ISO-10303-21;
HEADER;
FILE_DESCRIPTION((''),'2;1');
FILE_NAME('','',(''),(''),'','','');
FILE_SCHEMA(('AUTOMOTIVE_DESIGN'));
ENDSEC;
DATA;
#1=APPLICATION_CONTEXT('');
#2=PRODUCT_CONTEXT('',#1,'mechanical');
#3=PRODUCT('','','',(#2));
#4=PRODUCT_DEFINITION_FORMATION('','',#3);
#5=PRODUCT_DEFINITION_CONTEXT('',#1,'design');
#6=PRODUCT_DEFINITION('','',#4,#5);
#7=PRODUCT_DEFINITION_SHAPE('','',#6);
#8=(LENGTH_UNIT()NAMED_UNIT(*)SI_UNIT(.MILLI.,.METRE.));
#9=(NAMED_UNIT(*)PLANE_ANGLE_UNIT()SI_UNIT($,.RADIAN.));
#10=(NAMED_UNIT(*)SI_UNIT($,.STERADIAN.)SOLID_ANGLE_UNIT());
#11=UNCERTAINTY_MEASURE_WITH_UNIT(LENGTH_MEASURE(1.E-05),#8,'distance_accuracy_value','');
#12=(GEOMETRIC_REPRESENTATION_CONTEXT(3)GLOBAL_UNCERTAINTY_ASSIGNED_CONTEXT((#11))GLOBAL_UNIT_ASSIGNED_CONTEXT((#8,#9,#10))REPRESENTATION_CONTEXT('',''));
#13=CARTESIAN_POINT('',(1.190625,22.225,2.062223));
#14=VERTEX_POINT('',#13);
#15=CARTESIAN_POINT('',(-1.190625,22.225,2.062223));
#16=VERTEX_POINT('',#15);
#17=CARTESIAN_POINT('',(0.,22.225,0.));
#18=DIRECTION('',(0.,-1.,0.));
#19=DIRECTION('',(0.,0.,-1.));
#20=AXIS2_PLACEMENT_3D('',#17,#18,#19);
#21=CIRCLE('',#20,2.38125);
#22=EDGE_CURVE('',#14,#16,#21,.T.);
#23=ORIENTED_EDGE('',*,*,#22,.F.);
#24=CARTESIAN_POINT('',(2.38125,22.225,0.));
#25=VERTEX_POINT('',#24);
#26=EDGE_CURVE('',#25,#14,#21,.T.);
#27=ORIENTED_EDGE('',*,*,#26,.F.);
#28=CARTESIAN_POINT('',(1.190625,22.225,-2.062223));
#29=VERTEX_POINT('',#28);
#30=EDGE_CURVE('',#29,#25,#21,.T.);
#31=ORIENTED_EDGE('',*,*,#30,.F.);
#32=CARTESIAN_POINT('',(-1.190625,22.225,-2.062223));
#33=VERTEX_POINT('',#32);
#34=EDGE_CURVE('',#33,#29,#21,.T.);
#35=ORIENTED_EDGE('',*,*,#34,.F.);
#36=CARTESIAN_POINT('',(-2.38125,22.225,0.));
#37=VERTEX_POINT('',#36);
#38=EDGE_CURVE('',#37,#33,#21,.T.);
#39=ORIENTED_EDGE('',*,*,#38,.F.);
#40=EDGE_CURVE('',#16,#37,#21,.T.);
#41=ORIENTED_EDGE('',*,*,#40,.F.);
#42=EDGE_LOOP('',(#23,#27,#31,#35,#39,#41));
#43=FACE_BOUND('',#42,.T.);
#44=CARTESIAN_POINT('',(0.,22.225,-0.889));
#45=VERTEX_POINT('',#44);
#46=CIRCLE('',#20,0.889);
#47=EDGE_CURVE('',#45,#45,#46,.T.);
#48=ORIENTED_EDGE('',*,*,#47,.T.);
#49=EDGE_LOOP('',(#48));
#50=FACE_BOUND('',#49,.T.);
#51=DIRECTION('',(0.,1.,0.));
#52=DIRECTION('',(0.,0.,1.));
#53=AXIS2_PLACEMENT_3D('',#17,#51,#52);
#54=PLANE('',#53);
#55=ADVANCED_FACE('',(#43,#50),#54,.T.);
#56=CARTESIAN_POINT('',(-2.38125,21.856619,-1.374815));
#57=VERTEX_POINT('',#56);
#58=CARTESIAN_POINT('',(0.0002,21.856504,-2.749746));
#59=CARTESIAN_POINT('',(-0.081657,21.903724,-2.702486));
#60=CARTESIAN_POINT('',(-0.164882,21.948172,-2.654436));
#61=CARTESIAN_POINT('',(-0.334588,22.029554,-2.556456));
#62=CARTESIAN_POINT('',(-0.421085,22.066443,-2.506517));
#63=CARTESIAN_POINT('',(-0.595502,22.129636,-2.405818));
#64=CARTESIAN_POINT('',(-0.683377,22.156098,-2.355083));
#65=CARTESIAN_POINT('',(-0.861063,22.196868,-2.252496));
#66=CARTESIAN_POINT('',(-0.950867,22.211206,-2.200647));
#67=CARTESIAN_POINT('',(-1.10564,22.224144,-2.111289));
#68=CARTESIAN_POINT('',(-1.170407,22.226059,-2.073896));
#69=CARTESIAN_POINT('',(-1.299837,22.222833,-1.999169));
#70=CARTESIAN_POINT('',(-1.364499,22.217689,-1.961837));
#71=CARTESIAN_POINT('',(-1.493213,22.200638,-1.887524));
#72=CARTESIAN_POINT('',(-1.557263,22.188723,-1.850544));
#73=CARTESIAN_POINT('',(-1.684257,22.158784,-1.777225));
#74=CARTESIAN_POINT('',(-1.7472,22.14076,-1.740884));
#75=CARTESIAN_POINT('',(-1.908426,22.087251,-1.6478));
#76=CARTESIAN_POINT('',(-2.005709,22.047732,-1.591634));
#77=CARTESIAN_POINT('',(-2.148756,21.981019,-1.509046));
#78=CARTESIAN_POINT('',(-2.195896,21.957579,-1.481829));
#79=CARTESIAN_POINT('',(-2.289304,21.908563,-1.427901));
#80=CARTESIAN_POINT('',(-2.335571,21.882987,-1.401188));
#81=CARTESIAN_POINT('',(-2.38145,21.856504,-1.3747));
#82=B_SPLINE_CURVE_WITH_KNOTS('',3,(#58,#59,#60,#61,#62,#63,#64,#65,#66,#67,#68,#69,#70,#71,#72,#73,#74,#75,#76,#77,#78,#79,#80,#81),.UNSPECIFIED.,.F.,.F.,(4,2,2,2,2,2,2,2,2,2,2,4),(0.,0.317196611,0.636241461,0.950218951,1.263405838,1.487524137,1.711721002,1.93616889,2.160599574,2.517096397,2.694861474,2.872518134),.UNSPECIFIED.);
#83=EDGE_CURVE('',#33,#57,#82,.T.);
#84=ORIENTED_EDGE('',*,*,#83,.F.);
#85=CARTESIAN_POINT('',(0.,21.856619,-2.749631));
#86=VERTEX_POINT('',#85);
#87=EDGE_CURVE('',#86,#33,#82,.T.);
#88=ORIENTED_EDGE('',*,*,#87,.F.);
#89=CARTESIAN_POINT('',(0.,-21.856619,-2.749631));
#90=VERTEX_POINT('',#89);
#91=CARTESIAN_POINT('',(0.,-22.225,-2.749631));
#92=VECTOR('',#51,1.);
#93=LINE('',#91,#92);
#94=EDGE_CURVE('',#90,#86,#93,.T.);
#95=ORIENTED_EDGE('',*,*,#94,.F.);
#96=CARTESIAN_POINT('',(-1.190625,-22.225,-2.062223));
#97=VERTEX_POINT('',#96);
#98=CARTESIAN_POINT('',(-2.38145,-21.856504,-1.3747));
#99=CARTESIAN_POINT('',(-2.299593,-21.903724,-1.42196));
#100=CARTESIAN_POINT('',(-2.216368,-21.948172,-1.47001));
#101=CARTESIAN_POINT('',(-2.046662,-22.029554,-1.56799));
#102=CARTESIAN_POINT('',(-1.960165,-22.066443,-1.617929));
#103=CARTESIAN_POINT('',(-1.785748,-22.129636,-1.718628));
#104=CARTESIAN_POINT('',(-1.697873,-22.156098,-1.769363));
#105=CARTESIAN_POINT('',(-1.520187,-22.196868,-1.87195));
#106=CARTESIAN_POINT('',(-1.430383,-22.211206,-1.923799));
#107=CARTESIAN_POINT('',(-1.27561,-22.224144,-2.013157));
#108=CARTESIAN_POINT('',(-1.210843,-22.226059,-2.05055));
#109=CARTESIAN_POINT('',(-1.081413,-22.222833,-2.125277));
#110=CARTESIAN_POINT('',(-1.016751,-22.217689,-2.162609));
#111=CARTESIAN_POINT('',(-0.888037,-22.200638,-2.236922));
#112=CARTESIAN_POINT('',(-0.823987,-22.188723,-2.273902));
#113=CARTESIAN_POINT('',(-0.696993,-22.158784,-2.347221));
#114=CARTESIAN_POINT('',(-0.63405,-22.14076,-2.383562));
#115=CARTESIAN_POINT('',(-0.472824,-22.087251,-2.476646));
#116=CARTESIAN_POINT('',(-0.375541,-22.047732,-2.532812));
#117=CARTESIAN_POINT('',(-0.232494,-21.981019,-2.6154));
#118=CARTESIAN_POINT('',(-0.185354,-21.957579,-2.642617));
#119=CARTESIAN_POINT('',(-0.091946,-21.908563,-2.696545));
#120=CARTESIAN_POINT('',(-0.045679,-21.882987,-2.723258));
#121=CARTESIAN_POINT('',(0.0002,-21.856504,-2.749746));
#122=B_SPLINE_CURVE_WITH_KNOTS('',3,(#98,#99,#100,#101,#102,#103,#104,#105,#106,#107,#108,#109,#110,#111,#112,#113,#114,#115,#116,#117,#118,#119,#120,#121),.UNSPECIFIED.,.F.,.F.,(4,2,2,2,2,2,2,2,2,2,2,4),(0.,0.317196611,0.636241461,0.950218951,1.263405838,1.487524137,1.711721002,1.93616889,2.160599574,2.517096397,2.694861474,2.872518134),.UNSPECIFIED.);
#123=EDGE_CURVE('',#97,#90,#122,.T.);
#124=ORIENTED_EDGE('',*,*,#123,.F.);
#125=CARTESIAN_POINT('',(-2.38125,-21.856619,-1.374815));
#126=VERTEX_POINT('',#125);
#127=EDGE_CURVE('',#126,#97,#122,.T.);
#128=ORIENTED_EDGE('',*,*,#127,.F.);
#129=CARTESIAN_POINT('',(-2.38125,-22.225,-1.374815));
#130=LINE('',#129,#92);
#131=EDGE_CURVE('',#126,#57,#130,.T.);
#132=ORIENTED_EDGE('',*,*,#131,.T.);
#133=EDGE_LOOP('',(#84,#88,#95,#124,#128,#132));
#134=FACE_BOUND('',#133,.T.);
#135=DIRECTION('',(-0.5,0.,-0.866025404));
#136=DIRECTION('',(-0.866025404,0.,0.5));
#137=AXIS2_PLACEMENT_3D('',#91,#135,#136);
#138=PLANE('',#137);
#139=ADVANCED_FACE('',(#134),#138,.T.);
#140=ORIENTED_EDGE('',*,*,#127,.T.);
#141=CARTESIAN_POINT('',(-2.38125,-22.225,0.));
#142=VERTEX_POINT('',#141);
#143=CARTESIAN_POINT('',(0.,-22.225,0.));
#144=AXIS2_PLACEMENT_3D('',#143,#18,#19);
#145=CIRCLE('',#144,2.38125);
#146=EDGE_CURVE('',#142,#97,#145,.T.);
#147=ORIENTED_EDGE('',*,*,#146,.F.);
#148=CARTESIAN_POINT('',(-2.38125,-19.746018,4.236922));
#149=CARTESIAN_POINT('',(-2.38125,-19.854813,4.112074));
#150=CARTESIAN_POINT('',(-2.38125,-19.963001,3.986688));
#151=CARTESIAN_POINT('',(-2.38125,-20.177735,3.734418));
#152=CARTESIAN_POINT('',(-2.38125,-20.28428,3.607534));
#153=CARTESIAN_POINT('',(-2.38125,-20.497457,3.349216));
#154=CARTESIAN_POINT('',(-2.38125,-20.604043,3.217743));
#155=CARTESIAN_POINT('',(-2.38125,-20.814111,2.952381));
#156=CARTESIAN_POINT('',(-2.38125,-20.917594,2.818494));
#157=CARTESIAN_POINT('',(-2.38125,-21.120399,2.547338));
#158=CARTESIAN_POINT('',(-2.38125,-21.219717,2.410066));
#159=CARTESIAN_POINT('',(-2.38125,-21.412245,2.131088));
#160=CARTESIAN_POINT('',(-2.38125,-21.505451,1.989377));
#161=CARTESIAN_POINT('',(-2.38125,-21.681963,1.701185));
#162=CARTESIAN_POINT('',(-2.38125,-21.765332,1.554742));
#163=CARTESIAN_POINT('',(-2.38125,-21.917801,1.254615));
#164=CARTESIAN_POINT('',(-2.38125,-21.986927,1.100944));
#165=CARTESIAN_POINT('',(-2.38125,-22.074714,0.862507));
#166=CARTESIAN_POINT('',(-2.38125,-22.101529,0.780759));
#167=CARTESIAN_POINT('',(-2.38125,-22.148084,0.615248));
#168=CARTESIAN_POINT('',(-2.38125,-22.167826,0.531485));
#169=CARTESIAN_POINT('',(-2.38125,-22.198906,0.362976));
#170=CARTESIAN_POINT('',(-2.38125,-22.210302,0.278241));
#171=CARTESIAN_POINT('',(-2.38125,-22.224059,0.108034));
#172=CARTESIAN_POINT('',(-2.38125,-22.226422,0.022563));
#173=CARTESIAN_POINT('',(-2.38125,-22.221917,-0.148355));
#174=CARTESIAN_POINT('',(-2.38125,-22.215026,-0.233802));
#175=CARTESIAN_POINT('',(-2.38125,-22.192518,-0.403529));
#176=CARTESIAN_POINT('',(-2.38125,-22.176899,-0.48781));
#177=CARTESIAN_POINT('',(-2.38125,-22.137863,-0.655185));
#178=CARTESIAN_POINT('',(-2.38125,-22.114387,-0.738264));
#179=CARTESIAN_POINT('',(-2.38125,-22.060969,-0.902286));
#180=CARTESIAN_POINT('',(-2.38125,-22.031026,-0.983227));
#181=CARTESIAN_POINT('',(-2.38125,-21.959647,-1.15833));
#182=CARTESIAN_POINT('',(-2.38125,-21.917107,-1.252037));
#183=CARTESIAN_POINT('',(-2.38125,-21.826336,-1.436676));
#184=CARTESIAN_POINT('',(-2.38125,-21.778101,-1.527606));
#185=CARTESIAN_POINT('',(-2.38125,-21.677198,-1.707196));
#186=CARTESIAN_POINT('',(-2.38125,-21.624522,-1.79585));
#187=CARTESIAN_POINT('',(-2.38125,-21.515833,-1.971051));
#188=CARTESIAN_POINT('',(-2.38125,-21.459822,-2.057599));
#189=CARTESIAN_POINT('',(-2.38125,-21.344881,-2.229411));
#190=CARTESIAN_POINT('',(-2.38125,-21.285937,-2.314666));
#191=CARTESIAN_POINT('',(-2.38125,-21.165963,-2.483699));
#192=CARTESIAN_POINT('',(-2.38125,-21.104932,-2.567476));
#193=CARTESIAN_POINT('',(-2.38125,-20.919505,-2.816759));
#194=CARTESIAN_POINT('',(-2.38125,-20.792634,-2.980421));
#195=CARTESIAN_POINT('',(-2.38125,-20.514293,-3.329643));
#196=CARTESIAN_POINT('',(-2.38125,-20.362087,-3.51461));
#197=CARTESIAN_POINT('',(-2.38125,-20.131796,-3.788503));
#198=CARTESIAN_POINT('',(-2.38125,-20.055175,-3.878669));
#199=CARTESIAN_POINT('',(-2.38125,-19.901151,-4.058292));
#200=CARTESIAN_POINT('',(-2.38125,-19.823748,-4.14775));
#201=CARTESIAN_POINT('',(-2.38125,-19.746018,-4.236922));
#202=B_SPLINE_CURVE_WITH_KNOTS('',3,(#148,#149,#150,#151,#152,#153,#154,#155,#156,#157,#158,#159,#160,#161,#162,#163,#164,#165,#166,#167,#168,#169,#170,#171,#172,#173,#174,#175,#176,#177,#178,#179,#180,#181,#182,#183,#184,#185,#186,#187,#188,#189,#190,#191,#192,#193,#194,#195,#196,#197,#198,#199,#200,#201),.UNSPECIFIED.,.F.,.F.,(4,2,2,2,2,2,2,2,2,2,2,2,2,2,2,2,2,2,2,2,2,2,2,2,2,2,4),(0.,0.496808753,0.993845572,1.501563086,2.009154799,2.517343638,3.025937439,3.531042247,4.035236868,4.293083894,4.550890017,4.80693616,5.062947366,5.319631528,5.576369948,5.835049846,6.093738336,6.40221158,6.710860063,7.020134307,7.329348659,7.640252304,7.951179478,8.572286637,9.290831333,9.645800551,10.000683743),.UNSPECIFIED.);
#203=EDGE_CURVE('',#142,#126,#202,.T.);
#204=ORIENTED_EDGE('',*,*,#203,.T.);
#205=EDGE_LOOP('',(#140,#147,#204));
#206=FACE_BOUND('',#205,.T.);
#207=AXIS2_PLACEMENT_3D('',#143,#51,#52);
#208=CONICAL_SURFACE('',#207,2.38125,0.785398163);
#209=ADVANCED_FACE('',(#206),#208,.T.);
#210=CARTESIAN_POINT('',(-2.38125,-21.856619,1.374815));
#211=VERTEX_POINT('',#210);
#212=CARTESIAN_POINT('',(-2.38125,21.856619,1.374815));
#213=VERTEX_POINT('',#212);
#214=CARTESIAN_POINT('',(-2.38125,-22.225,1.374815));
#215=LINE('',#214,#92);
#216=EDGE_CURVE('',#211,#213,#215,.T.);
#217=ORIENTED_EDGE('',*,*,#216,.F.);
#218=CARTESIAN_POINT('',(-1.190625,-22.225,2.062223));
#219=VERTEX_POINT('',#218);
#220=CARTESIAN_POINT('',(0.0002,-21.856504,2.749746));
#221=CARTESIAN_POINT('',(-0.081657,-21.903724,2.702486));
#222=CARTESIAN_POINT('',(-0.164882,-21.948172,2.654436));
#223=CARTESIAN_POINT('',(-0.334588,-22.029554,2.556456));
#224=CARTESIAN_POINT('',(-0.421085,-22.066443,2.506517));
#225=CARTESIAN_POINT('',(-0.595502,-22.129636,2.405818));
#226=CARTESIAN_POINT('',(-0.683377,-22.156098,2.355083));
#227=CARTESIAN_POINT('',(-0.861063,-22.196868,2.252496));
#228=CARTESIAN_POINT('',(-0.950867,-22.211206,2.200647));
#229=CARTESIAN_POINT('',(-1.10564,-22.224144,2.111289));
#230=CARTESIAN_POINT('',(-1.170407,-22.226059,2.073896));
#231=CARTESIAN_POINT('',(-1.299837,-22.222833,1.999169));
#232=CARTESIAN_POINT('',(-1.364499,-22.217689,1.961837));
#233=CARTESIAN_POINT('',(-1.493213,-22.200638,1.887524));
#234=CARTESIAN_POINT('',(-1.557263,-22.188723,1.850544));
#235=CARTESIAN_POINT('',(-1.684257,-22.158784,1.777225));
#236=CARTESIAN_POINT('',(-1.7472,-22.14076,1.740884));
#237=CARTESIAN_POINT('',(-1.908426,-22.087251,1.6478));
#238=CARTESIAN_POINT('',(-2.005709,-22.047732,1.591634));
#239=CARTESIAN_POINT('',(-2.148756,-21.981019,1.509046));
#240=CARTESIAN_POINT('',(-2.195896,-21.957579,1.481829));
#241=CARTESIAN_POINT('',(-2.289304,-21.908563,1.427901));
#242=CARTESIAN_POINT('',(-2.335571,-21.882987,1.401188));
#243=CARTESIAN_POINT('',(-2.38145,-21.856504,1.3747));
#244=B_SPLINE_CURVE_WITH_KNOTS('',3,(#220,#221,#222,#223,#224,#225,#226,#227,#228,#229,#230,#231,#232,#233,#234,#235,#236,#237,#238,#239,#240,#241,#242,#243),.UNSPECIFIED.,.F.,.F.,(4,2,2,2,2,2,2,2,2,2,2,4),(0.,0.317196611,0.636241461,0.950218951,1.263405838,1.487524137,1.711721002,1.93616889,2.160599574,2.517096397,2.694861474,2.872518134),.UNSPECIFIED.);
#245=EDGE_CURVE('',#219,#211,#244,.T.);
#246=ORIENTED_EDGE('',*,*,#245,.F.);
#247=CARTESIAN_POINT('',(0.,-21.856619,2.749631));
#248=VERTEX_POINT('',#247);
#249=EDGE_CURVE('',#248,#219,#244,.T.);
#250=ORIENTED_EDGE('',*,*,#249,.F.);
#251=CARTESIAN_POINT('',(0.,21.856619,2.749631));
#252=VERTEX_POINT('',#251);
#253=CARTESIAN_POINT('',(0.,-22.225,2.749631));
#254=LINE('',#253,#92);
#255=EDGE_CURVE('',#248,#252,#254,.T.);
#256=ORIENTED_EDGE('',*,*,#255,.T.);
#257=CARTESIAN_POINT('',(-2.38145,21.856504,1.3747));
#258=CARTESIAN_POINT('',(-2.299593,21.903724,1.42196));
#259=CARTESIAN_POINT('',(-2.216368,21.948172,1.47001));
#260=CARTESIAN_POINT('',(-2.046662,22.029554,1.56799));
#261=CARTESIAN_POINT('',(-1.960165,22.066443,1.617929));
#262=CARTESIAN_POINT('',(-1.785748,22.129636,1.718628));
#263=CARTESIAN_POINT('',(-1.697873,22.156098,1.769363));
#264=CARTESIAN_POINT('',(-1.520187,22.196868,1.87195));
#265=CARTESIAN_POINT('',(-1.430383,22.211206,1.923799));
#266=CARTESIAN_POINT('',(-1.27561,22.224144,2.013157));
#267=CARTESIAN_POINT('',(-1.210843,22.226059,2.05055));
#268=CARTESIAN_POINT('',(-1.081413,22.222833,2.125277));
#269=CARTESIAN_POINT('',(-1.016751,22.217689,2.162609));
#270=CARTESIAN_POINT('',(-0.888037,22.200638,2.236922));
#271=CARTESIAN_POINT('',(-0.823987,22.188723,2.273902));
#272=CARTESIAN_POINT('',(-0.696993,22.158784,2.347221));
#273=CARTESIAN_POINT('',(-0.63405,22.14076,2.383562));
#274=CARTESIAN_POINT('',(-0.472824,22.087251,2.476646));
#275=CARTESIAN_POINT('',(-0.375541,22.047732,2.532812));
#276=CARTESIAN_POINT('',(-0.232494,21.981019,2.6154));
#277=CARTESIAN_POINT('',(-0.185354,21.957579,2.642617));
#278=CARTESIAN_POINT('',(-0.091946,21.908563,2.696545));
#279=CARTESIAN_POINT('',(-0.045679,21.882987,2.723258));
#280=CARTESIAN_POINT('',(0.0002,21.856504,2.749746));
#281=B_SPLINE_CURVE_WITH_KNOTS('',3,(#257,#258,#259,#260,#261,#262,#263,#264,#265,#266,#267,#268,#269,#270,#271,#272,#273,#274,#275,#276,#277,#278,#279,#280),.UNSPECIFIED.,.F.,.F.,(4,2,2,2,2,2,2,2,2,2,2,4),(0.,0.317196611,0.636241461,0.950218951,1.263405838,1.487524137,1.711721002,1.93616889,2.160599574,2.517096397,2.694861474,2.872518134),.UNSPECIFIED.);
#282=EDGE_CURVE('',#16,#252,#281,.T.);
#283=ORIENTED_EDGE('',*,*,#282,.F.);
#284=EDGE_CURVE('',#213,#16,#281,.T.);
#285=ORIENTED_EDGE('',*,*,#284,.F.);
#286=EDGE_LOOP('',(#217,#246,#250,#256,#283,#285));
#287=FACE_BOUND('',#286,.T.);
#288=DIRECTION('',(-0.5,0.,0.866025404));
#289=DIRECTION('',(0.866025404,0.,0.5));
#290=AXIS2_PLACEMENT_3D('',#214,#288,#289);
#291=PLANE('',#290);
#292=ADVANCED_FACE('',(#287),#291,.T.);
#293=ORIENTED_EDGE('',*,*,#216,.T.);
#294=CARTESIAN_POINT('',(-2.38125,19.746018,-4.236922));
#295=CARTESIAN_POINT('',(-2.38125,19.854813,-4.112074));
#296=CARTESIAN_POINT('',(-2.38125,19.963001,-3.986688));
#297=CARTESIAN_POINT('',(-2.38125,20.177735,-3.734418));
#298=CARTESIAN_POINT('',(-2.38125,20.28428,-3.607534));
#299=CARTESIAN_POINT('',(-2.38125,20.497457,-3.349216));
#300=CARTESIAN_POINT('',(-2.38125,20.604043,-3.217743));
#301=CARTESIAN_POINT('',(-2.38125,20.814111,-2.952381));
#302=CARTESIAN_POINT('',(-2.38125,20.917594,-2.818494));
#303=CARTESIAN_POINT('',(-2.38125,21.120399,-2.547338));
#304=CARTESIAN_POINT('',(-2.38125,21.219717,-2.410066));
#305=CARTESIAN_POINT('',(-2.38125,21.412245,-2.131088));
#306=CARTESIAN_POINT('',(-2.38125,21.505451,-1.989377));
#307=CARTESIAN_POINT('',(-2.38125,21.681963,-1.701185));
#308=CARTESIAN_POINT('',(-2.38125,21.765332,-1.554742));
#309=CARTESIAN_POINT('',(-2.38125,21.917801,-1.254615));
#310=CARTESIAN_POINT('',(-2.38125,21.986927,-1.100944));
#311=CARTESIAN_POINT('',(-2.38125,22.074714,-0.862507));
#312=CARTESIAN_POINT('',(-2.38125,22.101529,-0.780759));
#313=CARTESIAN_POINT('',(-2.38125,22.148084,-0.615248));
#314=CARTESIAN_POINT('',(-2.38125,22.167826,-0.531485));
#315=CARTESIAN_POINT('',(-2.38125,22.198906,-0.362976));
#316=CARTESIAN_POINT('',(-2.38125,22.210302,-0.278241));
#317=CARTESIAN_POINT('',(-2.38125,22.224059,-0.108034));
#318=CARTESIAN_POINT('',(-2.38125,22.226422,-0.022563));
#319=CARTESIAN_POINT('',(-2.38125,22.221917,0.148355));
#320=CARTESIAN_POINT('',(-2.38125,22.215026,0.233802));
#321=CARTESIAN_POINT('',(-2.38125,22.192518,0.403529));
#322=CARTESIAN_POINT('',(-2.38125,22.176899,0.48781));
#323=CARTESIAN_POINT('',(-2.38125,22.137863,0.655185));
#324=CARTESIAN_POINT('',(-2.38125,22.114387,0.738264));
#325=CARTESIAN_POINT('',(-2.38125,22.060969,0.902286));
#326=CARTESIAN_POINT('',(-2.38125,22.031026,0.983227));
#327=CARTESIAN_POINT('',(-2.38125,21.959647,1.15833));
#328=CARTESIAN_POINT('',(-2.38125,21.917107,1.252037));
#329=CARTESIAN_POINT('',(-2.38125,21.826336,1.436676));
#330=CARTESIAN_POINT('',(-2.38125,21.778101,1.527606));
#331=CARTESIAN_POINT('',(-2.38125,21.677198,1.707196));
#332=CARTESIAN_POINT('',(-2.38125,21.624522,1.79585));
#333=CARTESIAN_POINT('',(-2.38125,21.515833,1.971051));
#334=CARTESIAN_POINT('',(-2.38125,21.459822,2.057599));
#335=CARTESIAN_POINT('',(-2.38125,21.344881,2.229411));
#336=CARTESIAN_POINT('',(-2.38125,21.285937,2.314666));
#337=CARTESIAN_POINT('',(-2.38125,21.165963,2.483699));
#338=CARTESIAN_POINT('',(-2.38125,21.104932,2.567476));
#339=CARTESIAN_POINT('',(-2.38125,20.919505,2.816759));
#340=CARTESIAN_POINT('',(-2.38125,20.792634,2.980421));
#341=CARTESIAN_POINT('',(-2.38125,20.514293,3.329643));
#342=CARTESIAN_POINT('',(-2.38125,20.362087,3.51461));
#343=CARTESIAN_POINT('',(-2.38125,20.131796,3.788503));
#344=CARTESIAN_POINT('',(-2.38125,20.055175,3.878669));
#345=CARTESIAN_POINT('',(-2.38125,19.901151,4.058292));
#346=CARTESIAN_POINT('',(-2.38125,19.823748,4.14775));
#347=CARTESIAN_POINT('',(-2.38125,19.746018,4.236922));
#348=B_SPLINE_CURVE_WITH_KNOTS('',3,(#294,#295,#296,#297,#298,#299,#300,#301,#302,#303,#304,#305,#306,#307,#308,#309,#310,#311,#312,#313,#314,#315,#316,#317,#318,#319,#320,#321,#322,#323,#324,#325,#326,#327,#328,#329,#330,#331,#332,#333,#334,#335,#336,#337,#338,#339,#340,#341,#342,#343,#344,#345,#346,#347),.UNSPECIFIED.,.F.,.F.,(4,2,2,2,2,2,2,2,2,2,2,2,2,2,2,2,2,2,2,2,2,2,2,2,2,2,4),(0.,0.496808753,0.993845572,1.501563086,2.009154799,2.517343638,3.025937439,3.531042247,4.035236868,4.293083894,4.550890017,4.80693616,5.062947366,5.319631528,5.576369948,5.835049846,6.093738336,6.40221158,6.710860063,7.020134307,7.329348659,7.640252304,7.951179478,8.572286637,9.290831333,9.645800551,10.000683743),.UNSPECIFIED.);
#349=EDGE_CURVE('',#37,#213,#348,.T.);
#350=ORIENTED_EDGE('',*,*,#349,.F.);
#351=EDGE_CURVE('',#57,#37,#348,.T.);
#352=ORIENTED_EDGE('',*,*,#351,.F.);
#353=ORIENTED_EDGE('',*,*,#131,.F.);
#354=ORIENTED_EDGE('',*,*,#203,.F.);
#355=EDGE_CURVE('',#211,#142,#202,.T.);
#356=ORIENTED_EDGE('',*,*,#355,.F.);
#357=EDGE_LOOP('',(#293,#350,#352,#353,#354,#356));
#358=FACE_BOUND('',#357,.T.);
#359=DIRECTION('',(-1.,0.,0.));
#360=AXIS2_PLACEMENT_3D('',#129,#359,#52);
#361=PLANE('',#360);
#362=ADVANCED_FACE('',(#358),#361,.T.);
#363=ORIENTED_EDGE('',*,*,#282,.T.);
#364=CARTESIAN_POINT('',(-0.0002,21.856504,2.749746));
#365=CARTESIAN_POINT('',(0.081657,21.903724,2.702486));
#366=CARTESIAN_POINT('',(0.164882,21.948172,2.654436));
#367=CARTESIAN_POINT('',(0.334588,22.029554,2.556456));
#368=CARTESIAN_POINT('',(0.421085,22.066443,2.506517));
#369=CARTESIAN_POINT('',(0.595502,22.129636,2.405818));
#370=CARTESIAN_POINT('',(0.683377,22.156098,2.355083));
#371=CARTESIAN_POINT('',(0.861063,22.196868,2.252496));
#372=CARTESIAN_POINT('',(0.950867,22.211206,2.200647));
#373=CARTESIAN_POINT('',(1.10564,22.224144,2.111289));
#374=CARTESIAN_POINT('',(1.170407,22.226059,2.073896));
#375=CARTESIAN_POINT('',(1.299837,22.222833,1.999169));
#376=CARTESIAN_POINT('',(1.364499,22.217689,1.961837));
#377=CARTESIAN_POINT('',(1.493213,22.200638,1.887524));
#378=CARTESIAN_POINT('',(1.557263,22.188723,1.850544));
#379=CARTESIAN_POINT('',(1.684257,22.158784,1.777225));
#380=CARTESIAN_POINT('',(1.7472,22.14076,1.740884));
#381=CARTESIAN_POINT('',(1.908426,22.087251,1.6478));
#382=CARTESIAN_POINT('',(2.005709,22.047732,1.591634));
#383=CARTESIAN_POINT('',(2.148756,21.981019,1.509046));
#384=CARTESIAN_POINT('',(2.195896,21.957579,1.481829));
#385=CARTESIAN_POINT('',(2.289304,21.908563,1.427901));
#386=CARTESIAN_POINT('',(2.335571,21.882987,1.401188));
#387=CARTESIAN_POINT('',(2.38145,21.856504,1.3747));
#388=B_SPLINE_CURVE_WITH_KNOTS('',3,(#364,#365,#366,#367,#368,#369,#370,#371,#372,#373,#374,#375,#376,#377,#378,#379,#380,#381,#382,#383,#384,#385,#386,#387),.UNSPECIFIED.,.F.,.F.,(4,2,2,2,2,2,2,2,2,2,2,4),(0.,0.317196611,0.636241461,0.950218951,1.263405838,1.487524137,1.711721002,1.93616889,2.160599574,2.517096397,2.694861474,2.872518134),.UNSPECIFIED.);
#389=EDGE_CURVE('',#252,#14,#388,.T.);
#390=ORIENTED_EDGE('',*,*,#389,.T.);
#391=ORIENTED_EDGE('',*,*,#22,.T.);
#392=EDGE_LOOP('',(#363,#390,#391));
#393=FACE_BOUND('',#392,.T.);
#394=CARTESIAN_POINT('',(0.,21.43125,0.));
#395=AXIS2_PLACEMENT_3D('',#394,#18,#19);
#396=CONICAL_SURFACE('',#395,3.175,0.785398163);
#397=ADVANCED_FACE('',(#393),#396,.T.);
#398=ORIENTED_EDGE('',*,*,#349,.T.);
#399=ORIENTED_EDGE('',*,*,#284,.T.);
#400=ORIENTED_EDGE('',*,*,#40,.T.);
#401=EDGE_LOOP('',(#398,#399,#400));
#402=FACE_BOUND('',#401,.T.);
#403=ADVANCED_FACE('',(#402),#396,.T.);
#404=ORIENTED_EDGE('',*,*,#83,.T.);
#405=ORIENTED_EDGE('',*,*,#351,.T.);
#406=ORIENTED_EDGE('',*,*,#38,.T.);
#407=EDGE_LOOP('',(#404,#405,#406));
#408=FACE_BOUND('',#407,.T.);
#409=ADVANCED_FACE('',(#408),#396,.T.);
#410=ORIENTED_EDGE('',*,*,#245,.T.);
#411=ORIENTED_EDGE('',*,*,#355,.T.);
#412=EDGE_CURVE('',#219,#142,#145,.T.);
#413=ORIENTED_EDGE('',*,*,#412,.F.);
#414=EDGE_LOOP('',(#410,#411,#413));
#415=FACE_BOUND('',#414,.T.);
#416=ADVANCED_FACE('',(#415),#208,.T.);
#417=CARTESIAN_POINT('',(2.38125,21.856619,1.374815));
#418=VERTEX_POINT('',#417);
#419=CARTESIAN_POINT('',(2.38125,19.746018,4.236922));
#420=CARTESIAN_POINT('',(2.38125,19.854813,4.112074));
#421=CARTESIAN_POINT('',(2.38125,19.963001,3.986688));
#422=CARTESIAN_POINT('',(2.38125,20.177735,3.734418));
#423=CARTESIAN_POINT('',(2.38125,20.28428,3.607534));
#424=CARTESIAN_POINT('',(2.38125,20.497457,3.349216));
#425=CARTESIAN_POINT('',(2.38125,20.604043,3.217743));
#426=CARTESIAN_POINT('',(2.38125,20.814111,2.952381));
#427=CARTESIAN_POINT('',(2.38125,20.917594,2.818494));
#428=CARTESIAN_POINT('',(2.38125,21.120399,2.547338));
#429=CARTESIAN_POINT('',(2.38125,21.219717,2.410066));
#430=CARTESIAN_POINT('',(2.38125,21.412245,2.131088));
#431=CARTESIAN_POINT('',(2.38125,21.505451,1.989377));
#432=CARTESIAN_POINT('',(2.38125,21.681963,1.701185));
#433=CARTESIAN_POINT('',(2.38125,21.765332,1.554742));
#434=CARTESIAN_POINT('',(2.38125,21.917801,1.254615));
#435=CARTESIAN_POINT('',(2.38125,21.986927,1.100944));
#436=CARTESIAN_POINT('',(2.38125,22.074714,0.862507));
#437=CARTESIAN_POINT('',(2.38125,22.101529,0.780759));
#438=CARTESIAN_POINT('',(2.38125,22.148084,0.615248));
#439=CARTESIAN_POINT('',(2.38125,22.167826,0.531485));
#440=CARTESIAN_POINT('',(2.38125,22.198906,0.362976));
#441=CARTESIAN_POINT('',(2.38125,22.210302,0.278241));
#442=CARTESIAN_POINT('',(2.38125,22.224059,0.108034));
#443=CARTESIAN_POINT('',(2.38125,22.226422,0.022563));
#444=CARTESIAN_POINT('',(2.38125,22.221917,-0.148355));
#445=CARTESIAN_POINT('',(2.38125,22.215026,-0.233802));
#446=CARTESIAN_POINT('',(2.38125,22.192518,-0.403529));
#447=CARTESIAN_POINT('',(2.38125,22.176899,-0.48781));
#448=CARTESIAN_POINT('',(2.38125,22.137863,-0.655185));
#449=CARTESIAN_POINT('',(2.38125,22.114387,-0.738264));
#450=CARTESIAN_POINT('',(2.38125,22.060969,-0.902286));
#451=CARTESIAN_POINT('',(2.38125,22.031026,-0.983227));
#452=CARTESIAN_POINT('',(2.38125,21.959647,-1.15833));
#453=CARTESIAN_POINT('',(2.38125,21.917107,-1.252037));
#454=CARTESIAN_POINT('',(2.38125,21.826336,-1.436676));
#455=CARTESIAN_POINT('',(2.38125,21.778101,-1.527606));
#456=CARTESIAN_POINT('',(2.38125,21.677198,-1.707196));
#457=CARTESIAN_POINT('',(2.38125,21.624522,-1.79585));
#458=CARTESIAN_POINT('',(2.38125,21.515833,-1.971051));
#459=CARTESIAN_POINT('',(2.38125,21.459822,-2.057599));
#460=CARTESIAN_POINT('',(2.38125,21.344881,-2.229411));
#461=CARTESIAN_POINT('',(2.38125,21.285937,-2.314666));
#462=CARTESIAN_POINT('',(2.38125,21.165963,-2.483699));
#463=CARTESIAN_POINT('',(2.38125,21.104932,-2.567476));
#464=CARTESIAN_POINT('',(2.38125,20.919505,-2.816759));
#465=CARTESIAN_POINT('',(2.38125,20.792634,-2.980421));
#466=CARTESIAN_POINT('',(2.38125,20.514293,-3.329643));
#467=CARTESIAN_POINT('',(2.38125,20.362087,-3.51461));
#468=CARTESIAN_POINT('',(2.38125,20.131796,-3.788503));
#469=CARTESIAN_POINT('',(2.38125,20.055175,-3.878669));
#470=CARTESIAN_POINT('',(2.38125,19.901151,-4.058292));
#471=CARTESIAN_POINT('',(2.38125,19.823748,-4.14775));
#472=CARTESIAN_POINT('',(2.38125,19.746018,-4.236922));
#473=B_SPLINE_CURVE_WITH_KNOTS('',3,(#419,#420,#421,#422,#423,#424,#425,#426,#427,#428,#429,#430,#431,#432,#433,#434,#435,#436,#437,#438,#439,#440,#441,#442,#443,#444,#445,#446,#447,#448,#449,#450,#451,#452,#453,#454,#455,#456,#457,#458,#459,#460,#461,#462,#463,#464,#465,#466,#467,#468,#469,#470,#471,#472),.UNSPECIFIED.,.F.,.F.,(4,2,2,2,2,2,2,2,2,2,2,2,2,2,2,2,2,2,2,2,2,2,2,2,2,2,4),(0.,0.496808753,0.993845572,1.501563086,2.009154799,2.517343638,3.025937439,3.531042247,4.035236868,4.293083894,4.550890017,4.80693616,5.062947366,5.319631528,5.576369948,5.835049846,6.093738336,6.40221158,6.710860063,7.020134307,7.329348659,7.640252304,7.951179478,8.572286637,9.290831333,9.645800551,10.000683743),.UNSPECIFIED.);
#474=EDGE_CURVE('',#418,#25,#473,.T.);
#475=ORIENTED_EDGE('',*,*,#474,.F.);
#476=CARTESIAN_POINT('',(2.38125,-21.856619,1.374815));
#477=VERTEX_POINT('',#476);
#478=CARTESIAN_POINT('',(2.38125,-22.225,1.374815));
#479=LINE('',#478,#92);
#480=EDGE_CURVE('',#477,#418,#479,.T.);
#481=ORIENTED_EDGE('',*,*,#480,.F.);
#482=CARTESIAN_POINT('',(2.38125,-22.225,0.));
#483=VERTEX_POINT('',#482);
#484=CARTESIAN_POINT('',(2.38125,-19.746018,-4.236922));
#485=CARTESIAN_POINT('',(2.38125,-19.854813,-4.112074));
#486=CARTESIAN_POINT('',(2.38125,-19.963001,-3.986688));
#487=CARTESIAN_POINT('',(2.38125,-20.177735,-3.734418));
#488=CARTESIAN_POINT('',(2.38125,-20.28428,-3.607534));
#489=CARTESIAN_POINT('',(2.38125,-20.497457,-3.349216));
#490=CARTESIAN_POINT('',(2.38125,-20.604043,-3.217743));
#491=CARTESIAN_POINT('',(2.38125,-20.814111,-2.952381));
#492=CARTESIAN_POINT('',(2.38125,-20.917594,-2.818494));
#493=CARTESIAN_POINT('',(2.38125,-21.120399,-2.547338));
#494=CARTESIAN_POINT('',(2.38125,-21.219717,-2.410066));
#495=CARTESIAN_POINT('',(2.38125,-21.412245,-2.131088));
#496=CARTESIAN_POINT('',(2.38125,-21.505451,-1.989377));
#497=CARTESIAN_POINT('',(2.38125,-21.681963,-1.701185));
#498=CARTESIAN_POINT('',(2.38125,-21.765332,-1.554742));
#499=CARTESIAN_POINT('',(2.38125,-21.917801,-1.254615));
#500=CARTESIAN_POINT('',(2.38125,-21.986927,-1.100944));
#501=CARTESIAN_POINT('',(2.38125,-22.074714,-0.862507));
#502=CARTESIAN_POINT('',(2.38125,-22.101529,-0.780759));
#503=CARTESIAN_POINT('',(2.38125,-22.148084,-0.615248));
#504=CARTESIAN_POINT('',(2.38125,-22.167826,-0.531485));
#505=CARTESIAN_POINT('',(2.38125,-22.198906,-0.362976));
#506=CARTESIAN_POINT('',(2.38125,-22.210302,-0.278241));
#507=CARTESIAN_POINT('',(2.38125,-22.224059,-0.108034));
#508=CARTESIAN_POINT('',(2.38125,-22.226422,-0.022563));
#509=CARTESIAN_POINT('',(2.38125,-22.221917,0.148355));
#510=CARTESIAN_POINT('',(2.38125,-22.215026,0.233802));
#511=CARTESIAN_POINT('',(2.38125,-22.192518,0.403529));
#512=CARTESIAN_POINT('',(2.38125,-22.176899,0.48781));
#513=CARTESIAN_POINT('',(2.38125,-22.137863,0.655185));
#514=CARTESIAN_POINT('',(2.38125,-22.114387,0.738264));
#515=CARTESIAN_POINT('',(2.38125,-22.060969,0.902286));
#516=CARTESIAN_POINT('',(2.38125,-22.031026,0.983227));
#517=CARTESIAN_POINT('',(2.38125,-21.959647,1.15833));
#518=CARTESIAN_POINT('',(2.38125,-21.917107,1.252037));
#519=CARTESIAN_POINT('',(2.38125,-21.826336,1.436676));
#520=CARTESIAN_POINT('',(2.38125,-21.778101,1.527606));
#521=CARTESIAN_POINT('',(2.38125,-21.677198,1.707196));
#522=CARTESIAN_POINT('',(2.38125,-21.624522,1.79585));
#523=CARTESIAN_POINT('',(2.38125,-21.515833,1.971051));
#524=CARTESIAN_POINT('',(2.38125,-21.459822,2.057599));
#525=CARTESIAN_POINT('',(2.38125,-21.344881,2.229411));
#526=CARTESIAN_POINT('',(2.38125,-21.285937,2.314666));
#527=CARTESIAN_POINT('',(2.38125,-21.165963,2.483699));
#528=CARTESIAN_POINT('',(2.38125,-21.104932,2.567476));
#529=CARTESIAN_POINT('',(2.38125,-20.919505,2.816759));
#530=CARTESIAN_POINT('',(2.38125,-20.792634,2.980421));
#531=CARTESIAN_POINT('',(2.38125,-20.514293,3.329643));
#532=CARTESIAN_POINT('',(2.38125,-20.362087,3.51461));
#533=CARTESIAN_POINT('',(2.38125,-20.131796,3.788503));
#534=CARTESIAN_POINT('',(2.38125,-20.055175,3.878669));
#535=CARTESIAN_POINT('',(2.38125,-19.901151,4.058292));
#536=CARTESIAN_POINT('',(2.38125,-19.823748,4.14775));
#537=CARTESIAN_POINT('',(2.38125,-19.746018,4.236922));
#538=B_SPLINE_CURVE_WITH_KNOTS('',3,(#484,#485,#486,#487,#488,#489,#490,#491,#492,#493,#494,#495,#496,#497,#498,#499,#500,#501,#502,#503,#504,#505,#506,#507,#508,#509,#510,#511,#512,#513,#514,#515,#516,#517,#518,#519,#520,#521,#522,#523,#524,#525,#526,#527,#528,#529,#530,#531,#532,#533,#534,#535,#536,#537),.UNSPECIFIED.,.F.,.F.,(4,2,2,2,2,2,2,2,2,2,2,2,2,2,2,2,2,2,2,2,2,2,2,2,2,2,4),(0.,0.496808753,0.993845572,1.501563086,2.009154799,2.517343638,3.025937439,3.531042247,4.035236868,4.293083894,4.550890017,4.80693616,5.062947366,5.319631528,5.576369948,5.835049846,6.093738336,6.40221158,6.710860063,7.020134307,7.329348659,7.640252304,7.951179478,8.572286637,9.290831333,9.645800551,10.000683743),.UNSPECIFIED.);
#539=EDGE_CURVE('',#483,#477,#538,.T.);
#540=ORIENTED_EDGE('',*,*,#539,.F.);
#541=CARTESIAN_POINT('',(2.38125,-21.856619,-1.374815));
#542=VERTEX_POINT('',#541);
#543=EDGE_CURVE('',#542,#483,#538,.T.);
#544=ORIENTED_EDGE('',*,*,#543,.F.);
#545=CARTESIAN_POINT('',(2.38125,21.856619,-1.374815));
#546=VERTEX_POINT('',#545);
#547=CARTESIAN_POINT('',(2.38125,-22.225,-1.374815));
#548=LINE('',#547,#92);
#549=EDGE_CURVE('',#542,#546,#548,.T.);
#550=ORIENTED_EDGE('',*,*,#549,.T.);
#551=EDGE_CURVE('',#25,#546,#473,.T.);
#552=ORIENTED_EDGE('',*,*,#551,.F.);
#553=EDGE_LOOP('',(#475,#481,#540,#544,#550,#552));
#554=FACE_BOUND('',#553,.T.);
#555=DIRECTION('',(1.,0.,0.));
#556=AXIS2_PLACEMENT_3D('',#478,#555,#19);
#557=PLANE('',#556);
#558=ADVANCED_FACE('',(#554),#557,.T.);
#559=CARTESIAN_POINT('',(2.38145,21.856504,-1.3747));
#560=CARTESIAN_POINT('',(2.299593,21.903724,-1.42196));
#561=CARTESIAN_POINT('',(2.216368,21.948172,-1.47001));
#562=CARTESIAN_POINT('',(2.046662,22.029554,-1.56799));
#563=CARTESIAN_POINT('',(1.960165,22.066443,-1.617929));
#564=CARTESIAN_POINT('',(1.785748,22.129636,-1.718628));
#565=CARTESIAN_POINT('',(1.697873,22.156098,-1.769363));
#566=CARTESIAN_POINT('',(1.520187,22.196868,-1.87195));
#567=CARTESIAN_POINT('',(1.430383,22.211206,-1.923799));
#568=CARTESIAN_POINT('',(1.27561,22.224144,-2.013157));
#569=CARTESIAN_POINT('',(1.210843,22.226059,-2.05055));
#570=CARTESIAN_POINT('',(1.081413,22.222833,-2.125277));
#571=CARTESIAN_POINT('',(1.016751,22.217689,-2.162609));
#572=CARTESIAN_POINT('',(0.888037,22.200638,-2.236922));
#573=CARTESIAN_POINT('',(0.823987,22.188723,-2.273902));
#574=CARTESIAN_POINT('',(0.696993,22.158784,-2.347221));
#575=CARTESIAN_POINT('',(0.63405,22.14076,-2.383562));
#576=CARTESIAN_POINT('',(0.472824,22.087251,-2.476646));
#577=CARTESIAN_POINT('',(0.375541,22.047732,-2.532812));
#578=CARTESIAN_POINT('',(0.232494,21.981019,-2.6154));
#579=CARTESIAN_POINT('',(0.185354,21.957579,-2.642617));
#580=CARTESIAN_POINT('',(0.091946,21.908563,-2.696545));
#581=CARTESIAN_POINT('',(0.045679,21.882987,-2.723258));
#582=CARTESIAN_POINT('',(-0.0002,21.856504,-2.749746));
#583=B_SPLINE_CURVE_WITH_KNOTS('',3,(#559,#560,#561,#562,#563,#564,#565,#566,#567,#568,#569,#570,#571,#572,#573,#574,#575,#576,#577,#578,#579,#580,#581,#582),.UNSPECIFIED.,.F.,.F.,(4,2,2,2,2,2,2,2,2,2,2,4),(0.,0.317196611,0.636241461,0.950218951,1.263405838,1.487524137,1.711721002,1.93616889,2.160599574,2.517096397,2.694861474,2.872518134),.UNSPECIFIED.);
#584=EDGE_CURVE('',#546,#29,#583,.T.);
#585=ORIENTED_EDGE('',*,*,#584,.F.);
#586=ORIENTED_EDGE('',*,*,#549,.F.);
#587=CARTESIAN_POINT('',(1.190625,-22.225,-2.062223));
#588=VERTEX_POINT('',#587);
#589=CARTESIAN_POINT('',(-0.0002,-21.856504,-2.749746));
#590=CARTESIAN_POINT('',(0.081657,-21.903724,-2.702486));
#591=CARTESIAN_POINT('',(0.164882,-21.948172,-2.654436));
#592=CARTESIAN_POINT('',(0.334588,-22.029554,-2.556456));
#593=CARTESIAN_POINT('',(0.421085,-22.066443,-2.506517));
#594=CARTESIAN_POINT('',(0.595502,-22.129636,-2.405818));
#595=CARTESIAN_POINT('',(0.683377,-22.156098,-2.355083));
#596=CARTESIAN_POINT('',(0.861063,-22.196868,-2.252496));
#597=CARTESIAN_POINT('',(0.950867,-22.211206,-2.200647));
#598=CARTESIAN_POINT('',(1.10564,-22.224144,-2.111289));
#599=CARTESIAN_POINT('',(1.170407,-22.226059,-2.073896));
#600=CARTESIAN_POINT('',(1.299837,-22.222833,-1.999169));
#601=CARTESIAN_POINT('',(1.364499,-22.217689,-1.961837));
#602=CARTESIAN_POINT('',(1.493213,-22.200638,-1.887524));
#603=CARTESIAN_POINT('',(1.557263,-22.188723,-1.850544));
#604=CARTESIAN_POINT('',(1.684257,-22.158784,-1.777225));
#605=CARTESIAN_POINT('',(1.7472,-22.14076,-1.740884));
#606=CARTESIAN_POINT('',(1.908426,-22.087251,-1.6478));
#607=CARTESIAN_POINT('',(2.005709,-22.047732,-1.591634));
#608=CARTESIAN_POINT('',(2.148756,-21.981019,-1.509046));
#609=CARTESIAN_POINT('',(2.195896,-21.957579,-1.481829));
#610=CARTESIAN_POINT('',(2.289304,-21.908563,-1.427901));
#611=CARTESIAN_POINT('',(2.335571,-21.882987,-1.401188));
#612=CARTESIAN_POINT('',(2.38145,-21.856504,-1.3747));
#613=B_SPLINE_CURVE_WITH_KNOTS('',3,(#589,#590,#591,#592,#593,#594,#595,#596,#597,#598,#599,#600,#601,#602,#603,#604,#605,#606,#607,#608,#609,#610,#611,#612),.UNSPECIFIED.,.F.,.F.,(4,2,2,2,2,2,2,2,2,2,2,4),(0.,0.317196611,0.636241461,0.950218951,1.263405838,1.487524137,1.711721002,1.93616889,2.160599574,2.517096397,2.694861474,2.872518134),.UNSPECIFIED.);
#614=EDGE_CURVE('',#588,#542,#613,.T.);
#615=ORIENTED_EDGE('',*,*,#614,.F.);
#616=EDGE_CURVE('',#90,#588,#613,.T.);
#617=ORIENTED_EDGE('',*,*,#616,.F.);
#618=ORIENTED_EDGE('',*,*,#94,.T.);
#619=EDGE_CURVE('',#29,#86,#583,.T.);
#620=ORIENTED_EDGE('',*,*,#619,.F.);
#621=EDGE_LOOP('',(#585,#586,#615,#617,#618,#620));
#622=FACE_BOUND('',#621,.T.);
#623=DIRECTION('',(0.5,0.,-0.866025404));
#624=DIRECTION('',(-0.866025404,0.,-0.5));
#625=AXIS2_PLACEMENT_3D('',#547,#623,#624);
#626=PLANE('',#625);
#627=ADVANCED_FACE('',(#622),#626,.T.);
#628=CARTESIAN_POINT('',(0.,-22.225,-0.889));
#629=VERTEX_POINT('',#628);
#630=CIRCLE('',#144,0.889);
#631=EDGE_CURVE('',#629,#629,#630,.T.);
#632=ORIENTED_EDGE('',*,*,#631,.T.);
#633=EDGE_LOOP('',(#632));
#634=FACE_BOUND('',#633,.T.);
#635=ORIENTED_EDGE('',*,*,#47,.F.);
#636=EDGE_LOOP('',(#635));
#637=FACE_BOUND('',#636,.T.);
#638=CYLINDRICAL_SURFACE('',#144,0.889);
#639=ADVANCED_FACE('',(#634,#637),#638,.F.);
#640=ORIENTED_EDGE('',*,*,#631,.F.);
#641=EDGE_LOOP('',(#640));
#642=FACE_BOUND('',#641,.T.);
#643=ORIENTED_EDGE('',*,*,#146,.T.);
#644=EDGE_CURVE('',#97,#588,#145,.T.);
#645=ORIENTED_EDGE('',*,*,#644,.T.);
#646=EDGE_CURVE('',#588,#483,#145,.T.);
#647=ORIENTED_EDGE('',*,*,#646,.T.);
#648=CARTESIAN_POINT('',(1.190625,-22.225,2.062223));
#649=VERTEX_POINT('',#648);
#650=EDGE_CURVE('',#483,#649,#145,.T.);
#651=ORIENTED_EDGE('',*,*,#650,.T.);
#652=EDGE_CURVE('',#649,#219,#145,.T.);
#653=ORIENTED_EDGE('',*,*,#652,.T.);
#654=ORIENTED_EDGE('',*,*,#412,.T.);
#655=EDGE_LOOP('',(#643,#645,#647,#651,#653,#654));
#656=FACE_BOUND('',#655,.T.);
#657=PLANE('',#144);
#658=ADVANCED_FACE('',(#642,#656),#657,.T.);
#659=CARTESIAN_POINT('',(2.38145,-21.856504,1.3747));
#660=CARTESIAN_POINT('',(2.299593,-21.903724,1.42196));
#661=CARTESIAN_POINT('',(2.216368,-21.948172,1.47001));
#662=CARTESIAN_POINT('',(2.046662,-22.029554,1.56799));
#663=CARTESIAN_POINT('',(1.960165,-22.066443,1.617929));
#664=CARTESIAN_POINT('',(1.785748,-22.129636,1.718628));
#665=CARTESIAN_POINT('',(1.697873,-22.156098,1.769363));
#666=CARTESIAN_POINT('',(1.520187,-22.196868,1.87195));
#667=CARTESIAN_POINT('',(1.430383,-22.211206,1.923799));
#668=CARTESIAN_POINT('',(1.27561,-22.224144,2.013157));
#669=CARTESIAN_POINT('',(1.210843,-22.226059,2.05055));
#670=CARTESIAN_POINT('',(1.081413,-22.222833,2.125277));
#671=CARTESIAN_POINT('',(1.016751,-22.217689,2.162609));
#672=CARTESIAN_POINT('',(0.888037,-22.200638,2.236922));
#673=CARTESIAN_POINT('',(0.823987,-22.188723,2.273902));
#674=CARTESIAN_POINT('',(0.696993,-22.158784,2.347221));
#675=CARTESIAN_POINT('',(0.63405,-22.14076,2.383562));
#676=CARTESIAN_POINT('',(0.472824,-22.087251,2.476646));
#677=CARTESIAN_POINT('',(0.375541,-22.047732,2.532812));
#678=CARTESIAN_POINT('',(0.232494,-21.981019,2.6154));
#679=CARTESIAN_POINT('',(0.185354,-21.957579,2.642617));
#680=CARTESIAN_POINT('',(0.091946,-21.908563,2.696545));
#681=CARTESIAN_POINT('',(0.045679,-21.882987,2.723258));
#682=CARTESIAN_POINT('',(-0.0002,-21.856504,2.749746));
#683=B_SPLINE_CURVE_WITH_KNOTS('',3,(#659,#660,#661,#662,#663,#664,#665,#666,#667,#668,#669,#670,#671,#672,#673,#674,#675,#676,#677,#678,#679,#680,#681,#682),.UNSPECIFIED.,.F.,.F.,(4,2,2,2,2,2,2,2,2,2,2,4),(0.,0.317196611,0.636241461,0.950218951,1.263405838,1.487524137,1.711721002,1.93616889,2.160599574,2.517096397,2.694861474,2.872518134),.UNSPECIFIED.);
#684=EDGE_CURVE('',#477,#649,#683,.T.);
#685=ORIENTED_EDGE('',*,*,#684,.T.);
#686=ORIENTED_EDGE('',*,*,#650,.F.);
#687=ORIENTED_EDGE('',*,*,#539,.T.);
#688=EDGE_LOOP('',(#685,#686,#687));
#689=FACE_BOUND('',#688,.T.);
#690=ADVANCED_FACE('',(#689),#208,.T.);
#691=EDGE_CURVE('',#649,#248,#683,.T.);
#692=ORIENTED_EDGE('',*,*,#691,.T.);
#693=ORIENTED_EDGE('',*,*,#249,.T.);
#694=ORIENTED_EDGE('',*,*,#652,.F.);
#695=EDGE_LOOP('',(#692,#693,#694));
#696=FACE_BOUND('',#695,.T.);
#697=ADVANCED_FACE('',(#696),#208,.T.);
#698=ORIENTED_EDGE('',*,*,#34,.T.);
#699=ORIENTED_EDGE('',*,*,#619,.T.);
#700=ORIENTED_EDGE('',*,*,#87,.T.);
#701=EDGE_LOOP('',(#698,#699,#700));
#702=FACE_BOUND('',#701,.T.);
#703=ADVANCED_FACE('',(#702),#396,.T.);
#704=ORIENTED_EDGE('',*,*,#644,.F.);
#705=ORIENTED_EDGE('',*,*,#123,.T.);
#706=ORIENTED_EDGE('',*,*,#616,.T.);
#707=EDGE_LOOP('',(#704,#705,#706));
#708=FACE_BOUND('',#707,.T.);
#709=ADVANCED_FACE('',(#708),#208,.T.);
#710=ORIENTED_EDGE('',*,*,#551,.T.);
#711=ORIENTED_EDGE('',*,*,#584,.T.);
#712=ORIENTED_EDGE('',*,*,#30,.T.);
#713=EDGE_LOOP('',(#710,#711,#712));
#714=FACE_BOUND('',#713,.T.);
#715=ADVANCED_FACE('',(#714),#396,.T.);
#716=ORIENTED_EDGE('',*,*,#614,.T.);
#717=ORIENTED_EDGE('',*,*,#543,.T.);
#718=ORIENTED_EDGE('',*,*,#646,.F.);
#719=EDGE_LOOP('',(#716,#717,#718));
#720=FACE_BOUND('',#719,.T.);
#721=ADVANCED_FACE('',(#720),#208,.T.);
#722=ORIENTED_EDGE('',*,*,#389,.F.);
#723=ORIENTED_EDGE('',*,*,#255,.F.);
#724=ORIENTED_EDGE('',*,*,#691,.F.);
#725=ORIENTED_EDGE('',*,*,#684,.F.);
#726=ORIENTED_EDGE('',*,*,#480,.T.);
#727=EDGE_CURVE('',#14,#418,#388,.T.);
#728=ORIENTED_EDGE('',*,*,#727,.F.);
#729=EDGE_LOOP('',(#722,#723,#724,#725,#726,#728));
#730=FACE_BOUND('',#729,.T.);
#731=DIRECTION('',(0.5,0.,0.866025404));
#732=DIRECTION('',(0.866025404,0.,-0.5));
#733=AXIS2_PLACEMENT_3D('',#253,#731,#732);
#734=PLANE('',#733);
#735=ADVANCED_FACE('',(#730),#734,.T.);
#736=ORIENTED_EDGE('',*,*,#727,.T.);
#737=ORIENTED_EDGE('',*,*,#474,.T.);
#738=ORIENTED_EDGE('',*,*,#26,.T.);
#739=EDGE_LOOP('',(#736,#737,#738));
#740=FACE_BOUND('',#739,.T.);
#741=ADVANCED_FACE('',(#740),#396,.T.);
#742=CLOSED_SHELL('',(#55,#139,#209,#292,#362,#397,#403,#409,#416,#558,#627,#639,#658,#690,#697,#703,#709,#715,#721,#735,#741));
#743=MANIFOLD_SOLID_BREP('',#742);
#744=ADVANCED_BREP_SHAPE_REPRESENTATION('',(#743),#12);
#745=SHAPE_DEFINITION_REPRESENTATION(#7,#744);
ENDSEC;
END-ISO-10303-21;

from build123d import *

# Parameters (mm, degrees)
SKETCH5_R             = 3.175
CUT_EXTRUDE1_DEPTH    = 45.676210112
F_2_56_TAPPED_HOLE1_D = 1.778


with BuildPart() as part:
    # Sketch1 → Revolve1 (revolve)
    with BuildSketch(Plane.XY, mode=Mode.PRIVATE) as revolve1_sk:
        Polygon((0, -22.225), (2.38125, -22.225), (3.175, -21.43125), (3.175, 21.43125), (2.38125, 22.225), (0, 22.225), align=None)
    revolve(revolve1_sk.sketch.rotate(Axis((0, -22.225, 0), (0, 1, 0)), 90), axis=Axis((0, -22.225, 0), (0, 1, 0)))

    # Sketch5 → Cut-Extrude1 (cut, through all)
    with BuildSketch(Plane(origin=(0, 22.225, 0), x_dir=(1, 0, 0), z_dir=(0, 1, 0))):
        Circle(SKETCH5_R)
        Polygon((2.38125, -1.374815329), (2.38125, 1.374815329), (0, 2.749630657), (-2.38125, 1.374815329), (-2.38125, -1.374815329), (0, -2.749630657), align=None, mode=Mode.SUBTRACT)
    extrude(amount=-CUT_EXTRUDE1_DEPTH, mode=Mode.SUBTRACT)

    # #2-56 Tapped Hole1 (through all)
    with Locations(Plane(origin=(0, -22.225, 0), x_dir=(-1, 0, 0), z_dir=(0, -1, 0))):
        with Locations((0, 0)):
            Hole(F_2_56_TAPPED_HOLE1_D / 2)


solid = part.part
